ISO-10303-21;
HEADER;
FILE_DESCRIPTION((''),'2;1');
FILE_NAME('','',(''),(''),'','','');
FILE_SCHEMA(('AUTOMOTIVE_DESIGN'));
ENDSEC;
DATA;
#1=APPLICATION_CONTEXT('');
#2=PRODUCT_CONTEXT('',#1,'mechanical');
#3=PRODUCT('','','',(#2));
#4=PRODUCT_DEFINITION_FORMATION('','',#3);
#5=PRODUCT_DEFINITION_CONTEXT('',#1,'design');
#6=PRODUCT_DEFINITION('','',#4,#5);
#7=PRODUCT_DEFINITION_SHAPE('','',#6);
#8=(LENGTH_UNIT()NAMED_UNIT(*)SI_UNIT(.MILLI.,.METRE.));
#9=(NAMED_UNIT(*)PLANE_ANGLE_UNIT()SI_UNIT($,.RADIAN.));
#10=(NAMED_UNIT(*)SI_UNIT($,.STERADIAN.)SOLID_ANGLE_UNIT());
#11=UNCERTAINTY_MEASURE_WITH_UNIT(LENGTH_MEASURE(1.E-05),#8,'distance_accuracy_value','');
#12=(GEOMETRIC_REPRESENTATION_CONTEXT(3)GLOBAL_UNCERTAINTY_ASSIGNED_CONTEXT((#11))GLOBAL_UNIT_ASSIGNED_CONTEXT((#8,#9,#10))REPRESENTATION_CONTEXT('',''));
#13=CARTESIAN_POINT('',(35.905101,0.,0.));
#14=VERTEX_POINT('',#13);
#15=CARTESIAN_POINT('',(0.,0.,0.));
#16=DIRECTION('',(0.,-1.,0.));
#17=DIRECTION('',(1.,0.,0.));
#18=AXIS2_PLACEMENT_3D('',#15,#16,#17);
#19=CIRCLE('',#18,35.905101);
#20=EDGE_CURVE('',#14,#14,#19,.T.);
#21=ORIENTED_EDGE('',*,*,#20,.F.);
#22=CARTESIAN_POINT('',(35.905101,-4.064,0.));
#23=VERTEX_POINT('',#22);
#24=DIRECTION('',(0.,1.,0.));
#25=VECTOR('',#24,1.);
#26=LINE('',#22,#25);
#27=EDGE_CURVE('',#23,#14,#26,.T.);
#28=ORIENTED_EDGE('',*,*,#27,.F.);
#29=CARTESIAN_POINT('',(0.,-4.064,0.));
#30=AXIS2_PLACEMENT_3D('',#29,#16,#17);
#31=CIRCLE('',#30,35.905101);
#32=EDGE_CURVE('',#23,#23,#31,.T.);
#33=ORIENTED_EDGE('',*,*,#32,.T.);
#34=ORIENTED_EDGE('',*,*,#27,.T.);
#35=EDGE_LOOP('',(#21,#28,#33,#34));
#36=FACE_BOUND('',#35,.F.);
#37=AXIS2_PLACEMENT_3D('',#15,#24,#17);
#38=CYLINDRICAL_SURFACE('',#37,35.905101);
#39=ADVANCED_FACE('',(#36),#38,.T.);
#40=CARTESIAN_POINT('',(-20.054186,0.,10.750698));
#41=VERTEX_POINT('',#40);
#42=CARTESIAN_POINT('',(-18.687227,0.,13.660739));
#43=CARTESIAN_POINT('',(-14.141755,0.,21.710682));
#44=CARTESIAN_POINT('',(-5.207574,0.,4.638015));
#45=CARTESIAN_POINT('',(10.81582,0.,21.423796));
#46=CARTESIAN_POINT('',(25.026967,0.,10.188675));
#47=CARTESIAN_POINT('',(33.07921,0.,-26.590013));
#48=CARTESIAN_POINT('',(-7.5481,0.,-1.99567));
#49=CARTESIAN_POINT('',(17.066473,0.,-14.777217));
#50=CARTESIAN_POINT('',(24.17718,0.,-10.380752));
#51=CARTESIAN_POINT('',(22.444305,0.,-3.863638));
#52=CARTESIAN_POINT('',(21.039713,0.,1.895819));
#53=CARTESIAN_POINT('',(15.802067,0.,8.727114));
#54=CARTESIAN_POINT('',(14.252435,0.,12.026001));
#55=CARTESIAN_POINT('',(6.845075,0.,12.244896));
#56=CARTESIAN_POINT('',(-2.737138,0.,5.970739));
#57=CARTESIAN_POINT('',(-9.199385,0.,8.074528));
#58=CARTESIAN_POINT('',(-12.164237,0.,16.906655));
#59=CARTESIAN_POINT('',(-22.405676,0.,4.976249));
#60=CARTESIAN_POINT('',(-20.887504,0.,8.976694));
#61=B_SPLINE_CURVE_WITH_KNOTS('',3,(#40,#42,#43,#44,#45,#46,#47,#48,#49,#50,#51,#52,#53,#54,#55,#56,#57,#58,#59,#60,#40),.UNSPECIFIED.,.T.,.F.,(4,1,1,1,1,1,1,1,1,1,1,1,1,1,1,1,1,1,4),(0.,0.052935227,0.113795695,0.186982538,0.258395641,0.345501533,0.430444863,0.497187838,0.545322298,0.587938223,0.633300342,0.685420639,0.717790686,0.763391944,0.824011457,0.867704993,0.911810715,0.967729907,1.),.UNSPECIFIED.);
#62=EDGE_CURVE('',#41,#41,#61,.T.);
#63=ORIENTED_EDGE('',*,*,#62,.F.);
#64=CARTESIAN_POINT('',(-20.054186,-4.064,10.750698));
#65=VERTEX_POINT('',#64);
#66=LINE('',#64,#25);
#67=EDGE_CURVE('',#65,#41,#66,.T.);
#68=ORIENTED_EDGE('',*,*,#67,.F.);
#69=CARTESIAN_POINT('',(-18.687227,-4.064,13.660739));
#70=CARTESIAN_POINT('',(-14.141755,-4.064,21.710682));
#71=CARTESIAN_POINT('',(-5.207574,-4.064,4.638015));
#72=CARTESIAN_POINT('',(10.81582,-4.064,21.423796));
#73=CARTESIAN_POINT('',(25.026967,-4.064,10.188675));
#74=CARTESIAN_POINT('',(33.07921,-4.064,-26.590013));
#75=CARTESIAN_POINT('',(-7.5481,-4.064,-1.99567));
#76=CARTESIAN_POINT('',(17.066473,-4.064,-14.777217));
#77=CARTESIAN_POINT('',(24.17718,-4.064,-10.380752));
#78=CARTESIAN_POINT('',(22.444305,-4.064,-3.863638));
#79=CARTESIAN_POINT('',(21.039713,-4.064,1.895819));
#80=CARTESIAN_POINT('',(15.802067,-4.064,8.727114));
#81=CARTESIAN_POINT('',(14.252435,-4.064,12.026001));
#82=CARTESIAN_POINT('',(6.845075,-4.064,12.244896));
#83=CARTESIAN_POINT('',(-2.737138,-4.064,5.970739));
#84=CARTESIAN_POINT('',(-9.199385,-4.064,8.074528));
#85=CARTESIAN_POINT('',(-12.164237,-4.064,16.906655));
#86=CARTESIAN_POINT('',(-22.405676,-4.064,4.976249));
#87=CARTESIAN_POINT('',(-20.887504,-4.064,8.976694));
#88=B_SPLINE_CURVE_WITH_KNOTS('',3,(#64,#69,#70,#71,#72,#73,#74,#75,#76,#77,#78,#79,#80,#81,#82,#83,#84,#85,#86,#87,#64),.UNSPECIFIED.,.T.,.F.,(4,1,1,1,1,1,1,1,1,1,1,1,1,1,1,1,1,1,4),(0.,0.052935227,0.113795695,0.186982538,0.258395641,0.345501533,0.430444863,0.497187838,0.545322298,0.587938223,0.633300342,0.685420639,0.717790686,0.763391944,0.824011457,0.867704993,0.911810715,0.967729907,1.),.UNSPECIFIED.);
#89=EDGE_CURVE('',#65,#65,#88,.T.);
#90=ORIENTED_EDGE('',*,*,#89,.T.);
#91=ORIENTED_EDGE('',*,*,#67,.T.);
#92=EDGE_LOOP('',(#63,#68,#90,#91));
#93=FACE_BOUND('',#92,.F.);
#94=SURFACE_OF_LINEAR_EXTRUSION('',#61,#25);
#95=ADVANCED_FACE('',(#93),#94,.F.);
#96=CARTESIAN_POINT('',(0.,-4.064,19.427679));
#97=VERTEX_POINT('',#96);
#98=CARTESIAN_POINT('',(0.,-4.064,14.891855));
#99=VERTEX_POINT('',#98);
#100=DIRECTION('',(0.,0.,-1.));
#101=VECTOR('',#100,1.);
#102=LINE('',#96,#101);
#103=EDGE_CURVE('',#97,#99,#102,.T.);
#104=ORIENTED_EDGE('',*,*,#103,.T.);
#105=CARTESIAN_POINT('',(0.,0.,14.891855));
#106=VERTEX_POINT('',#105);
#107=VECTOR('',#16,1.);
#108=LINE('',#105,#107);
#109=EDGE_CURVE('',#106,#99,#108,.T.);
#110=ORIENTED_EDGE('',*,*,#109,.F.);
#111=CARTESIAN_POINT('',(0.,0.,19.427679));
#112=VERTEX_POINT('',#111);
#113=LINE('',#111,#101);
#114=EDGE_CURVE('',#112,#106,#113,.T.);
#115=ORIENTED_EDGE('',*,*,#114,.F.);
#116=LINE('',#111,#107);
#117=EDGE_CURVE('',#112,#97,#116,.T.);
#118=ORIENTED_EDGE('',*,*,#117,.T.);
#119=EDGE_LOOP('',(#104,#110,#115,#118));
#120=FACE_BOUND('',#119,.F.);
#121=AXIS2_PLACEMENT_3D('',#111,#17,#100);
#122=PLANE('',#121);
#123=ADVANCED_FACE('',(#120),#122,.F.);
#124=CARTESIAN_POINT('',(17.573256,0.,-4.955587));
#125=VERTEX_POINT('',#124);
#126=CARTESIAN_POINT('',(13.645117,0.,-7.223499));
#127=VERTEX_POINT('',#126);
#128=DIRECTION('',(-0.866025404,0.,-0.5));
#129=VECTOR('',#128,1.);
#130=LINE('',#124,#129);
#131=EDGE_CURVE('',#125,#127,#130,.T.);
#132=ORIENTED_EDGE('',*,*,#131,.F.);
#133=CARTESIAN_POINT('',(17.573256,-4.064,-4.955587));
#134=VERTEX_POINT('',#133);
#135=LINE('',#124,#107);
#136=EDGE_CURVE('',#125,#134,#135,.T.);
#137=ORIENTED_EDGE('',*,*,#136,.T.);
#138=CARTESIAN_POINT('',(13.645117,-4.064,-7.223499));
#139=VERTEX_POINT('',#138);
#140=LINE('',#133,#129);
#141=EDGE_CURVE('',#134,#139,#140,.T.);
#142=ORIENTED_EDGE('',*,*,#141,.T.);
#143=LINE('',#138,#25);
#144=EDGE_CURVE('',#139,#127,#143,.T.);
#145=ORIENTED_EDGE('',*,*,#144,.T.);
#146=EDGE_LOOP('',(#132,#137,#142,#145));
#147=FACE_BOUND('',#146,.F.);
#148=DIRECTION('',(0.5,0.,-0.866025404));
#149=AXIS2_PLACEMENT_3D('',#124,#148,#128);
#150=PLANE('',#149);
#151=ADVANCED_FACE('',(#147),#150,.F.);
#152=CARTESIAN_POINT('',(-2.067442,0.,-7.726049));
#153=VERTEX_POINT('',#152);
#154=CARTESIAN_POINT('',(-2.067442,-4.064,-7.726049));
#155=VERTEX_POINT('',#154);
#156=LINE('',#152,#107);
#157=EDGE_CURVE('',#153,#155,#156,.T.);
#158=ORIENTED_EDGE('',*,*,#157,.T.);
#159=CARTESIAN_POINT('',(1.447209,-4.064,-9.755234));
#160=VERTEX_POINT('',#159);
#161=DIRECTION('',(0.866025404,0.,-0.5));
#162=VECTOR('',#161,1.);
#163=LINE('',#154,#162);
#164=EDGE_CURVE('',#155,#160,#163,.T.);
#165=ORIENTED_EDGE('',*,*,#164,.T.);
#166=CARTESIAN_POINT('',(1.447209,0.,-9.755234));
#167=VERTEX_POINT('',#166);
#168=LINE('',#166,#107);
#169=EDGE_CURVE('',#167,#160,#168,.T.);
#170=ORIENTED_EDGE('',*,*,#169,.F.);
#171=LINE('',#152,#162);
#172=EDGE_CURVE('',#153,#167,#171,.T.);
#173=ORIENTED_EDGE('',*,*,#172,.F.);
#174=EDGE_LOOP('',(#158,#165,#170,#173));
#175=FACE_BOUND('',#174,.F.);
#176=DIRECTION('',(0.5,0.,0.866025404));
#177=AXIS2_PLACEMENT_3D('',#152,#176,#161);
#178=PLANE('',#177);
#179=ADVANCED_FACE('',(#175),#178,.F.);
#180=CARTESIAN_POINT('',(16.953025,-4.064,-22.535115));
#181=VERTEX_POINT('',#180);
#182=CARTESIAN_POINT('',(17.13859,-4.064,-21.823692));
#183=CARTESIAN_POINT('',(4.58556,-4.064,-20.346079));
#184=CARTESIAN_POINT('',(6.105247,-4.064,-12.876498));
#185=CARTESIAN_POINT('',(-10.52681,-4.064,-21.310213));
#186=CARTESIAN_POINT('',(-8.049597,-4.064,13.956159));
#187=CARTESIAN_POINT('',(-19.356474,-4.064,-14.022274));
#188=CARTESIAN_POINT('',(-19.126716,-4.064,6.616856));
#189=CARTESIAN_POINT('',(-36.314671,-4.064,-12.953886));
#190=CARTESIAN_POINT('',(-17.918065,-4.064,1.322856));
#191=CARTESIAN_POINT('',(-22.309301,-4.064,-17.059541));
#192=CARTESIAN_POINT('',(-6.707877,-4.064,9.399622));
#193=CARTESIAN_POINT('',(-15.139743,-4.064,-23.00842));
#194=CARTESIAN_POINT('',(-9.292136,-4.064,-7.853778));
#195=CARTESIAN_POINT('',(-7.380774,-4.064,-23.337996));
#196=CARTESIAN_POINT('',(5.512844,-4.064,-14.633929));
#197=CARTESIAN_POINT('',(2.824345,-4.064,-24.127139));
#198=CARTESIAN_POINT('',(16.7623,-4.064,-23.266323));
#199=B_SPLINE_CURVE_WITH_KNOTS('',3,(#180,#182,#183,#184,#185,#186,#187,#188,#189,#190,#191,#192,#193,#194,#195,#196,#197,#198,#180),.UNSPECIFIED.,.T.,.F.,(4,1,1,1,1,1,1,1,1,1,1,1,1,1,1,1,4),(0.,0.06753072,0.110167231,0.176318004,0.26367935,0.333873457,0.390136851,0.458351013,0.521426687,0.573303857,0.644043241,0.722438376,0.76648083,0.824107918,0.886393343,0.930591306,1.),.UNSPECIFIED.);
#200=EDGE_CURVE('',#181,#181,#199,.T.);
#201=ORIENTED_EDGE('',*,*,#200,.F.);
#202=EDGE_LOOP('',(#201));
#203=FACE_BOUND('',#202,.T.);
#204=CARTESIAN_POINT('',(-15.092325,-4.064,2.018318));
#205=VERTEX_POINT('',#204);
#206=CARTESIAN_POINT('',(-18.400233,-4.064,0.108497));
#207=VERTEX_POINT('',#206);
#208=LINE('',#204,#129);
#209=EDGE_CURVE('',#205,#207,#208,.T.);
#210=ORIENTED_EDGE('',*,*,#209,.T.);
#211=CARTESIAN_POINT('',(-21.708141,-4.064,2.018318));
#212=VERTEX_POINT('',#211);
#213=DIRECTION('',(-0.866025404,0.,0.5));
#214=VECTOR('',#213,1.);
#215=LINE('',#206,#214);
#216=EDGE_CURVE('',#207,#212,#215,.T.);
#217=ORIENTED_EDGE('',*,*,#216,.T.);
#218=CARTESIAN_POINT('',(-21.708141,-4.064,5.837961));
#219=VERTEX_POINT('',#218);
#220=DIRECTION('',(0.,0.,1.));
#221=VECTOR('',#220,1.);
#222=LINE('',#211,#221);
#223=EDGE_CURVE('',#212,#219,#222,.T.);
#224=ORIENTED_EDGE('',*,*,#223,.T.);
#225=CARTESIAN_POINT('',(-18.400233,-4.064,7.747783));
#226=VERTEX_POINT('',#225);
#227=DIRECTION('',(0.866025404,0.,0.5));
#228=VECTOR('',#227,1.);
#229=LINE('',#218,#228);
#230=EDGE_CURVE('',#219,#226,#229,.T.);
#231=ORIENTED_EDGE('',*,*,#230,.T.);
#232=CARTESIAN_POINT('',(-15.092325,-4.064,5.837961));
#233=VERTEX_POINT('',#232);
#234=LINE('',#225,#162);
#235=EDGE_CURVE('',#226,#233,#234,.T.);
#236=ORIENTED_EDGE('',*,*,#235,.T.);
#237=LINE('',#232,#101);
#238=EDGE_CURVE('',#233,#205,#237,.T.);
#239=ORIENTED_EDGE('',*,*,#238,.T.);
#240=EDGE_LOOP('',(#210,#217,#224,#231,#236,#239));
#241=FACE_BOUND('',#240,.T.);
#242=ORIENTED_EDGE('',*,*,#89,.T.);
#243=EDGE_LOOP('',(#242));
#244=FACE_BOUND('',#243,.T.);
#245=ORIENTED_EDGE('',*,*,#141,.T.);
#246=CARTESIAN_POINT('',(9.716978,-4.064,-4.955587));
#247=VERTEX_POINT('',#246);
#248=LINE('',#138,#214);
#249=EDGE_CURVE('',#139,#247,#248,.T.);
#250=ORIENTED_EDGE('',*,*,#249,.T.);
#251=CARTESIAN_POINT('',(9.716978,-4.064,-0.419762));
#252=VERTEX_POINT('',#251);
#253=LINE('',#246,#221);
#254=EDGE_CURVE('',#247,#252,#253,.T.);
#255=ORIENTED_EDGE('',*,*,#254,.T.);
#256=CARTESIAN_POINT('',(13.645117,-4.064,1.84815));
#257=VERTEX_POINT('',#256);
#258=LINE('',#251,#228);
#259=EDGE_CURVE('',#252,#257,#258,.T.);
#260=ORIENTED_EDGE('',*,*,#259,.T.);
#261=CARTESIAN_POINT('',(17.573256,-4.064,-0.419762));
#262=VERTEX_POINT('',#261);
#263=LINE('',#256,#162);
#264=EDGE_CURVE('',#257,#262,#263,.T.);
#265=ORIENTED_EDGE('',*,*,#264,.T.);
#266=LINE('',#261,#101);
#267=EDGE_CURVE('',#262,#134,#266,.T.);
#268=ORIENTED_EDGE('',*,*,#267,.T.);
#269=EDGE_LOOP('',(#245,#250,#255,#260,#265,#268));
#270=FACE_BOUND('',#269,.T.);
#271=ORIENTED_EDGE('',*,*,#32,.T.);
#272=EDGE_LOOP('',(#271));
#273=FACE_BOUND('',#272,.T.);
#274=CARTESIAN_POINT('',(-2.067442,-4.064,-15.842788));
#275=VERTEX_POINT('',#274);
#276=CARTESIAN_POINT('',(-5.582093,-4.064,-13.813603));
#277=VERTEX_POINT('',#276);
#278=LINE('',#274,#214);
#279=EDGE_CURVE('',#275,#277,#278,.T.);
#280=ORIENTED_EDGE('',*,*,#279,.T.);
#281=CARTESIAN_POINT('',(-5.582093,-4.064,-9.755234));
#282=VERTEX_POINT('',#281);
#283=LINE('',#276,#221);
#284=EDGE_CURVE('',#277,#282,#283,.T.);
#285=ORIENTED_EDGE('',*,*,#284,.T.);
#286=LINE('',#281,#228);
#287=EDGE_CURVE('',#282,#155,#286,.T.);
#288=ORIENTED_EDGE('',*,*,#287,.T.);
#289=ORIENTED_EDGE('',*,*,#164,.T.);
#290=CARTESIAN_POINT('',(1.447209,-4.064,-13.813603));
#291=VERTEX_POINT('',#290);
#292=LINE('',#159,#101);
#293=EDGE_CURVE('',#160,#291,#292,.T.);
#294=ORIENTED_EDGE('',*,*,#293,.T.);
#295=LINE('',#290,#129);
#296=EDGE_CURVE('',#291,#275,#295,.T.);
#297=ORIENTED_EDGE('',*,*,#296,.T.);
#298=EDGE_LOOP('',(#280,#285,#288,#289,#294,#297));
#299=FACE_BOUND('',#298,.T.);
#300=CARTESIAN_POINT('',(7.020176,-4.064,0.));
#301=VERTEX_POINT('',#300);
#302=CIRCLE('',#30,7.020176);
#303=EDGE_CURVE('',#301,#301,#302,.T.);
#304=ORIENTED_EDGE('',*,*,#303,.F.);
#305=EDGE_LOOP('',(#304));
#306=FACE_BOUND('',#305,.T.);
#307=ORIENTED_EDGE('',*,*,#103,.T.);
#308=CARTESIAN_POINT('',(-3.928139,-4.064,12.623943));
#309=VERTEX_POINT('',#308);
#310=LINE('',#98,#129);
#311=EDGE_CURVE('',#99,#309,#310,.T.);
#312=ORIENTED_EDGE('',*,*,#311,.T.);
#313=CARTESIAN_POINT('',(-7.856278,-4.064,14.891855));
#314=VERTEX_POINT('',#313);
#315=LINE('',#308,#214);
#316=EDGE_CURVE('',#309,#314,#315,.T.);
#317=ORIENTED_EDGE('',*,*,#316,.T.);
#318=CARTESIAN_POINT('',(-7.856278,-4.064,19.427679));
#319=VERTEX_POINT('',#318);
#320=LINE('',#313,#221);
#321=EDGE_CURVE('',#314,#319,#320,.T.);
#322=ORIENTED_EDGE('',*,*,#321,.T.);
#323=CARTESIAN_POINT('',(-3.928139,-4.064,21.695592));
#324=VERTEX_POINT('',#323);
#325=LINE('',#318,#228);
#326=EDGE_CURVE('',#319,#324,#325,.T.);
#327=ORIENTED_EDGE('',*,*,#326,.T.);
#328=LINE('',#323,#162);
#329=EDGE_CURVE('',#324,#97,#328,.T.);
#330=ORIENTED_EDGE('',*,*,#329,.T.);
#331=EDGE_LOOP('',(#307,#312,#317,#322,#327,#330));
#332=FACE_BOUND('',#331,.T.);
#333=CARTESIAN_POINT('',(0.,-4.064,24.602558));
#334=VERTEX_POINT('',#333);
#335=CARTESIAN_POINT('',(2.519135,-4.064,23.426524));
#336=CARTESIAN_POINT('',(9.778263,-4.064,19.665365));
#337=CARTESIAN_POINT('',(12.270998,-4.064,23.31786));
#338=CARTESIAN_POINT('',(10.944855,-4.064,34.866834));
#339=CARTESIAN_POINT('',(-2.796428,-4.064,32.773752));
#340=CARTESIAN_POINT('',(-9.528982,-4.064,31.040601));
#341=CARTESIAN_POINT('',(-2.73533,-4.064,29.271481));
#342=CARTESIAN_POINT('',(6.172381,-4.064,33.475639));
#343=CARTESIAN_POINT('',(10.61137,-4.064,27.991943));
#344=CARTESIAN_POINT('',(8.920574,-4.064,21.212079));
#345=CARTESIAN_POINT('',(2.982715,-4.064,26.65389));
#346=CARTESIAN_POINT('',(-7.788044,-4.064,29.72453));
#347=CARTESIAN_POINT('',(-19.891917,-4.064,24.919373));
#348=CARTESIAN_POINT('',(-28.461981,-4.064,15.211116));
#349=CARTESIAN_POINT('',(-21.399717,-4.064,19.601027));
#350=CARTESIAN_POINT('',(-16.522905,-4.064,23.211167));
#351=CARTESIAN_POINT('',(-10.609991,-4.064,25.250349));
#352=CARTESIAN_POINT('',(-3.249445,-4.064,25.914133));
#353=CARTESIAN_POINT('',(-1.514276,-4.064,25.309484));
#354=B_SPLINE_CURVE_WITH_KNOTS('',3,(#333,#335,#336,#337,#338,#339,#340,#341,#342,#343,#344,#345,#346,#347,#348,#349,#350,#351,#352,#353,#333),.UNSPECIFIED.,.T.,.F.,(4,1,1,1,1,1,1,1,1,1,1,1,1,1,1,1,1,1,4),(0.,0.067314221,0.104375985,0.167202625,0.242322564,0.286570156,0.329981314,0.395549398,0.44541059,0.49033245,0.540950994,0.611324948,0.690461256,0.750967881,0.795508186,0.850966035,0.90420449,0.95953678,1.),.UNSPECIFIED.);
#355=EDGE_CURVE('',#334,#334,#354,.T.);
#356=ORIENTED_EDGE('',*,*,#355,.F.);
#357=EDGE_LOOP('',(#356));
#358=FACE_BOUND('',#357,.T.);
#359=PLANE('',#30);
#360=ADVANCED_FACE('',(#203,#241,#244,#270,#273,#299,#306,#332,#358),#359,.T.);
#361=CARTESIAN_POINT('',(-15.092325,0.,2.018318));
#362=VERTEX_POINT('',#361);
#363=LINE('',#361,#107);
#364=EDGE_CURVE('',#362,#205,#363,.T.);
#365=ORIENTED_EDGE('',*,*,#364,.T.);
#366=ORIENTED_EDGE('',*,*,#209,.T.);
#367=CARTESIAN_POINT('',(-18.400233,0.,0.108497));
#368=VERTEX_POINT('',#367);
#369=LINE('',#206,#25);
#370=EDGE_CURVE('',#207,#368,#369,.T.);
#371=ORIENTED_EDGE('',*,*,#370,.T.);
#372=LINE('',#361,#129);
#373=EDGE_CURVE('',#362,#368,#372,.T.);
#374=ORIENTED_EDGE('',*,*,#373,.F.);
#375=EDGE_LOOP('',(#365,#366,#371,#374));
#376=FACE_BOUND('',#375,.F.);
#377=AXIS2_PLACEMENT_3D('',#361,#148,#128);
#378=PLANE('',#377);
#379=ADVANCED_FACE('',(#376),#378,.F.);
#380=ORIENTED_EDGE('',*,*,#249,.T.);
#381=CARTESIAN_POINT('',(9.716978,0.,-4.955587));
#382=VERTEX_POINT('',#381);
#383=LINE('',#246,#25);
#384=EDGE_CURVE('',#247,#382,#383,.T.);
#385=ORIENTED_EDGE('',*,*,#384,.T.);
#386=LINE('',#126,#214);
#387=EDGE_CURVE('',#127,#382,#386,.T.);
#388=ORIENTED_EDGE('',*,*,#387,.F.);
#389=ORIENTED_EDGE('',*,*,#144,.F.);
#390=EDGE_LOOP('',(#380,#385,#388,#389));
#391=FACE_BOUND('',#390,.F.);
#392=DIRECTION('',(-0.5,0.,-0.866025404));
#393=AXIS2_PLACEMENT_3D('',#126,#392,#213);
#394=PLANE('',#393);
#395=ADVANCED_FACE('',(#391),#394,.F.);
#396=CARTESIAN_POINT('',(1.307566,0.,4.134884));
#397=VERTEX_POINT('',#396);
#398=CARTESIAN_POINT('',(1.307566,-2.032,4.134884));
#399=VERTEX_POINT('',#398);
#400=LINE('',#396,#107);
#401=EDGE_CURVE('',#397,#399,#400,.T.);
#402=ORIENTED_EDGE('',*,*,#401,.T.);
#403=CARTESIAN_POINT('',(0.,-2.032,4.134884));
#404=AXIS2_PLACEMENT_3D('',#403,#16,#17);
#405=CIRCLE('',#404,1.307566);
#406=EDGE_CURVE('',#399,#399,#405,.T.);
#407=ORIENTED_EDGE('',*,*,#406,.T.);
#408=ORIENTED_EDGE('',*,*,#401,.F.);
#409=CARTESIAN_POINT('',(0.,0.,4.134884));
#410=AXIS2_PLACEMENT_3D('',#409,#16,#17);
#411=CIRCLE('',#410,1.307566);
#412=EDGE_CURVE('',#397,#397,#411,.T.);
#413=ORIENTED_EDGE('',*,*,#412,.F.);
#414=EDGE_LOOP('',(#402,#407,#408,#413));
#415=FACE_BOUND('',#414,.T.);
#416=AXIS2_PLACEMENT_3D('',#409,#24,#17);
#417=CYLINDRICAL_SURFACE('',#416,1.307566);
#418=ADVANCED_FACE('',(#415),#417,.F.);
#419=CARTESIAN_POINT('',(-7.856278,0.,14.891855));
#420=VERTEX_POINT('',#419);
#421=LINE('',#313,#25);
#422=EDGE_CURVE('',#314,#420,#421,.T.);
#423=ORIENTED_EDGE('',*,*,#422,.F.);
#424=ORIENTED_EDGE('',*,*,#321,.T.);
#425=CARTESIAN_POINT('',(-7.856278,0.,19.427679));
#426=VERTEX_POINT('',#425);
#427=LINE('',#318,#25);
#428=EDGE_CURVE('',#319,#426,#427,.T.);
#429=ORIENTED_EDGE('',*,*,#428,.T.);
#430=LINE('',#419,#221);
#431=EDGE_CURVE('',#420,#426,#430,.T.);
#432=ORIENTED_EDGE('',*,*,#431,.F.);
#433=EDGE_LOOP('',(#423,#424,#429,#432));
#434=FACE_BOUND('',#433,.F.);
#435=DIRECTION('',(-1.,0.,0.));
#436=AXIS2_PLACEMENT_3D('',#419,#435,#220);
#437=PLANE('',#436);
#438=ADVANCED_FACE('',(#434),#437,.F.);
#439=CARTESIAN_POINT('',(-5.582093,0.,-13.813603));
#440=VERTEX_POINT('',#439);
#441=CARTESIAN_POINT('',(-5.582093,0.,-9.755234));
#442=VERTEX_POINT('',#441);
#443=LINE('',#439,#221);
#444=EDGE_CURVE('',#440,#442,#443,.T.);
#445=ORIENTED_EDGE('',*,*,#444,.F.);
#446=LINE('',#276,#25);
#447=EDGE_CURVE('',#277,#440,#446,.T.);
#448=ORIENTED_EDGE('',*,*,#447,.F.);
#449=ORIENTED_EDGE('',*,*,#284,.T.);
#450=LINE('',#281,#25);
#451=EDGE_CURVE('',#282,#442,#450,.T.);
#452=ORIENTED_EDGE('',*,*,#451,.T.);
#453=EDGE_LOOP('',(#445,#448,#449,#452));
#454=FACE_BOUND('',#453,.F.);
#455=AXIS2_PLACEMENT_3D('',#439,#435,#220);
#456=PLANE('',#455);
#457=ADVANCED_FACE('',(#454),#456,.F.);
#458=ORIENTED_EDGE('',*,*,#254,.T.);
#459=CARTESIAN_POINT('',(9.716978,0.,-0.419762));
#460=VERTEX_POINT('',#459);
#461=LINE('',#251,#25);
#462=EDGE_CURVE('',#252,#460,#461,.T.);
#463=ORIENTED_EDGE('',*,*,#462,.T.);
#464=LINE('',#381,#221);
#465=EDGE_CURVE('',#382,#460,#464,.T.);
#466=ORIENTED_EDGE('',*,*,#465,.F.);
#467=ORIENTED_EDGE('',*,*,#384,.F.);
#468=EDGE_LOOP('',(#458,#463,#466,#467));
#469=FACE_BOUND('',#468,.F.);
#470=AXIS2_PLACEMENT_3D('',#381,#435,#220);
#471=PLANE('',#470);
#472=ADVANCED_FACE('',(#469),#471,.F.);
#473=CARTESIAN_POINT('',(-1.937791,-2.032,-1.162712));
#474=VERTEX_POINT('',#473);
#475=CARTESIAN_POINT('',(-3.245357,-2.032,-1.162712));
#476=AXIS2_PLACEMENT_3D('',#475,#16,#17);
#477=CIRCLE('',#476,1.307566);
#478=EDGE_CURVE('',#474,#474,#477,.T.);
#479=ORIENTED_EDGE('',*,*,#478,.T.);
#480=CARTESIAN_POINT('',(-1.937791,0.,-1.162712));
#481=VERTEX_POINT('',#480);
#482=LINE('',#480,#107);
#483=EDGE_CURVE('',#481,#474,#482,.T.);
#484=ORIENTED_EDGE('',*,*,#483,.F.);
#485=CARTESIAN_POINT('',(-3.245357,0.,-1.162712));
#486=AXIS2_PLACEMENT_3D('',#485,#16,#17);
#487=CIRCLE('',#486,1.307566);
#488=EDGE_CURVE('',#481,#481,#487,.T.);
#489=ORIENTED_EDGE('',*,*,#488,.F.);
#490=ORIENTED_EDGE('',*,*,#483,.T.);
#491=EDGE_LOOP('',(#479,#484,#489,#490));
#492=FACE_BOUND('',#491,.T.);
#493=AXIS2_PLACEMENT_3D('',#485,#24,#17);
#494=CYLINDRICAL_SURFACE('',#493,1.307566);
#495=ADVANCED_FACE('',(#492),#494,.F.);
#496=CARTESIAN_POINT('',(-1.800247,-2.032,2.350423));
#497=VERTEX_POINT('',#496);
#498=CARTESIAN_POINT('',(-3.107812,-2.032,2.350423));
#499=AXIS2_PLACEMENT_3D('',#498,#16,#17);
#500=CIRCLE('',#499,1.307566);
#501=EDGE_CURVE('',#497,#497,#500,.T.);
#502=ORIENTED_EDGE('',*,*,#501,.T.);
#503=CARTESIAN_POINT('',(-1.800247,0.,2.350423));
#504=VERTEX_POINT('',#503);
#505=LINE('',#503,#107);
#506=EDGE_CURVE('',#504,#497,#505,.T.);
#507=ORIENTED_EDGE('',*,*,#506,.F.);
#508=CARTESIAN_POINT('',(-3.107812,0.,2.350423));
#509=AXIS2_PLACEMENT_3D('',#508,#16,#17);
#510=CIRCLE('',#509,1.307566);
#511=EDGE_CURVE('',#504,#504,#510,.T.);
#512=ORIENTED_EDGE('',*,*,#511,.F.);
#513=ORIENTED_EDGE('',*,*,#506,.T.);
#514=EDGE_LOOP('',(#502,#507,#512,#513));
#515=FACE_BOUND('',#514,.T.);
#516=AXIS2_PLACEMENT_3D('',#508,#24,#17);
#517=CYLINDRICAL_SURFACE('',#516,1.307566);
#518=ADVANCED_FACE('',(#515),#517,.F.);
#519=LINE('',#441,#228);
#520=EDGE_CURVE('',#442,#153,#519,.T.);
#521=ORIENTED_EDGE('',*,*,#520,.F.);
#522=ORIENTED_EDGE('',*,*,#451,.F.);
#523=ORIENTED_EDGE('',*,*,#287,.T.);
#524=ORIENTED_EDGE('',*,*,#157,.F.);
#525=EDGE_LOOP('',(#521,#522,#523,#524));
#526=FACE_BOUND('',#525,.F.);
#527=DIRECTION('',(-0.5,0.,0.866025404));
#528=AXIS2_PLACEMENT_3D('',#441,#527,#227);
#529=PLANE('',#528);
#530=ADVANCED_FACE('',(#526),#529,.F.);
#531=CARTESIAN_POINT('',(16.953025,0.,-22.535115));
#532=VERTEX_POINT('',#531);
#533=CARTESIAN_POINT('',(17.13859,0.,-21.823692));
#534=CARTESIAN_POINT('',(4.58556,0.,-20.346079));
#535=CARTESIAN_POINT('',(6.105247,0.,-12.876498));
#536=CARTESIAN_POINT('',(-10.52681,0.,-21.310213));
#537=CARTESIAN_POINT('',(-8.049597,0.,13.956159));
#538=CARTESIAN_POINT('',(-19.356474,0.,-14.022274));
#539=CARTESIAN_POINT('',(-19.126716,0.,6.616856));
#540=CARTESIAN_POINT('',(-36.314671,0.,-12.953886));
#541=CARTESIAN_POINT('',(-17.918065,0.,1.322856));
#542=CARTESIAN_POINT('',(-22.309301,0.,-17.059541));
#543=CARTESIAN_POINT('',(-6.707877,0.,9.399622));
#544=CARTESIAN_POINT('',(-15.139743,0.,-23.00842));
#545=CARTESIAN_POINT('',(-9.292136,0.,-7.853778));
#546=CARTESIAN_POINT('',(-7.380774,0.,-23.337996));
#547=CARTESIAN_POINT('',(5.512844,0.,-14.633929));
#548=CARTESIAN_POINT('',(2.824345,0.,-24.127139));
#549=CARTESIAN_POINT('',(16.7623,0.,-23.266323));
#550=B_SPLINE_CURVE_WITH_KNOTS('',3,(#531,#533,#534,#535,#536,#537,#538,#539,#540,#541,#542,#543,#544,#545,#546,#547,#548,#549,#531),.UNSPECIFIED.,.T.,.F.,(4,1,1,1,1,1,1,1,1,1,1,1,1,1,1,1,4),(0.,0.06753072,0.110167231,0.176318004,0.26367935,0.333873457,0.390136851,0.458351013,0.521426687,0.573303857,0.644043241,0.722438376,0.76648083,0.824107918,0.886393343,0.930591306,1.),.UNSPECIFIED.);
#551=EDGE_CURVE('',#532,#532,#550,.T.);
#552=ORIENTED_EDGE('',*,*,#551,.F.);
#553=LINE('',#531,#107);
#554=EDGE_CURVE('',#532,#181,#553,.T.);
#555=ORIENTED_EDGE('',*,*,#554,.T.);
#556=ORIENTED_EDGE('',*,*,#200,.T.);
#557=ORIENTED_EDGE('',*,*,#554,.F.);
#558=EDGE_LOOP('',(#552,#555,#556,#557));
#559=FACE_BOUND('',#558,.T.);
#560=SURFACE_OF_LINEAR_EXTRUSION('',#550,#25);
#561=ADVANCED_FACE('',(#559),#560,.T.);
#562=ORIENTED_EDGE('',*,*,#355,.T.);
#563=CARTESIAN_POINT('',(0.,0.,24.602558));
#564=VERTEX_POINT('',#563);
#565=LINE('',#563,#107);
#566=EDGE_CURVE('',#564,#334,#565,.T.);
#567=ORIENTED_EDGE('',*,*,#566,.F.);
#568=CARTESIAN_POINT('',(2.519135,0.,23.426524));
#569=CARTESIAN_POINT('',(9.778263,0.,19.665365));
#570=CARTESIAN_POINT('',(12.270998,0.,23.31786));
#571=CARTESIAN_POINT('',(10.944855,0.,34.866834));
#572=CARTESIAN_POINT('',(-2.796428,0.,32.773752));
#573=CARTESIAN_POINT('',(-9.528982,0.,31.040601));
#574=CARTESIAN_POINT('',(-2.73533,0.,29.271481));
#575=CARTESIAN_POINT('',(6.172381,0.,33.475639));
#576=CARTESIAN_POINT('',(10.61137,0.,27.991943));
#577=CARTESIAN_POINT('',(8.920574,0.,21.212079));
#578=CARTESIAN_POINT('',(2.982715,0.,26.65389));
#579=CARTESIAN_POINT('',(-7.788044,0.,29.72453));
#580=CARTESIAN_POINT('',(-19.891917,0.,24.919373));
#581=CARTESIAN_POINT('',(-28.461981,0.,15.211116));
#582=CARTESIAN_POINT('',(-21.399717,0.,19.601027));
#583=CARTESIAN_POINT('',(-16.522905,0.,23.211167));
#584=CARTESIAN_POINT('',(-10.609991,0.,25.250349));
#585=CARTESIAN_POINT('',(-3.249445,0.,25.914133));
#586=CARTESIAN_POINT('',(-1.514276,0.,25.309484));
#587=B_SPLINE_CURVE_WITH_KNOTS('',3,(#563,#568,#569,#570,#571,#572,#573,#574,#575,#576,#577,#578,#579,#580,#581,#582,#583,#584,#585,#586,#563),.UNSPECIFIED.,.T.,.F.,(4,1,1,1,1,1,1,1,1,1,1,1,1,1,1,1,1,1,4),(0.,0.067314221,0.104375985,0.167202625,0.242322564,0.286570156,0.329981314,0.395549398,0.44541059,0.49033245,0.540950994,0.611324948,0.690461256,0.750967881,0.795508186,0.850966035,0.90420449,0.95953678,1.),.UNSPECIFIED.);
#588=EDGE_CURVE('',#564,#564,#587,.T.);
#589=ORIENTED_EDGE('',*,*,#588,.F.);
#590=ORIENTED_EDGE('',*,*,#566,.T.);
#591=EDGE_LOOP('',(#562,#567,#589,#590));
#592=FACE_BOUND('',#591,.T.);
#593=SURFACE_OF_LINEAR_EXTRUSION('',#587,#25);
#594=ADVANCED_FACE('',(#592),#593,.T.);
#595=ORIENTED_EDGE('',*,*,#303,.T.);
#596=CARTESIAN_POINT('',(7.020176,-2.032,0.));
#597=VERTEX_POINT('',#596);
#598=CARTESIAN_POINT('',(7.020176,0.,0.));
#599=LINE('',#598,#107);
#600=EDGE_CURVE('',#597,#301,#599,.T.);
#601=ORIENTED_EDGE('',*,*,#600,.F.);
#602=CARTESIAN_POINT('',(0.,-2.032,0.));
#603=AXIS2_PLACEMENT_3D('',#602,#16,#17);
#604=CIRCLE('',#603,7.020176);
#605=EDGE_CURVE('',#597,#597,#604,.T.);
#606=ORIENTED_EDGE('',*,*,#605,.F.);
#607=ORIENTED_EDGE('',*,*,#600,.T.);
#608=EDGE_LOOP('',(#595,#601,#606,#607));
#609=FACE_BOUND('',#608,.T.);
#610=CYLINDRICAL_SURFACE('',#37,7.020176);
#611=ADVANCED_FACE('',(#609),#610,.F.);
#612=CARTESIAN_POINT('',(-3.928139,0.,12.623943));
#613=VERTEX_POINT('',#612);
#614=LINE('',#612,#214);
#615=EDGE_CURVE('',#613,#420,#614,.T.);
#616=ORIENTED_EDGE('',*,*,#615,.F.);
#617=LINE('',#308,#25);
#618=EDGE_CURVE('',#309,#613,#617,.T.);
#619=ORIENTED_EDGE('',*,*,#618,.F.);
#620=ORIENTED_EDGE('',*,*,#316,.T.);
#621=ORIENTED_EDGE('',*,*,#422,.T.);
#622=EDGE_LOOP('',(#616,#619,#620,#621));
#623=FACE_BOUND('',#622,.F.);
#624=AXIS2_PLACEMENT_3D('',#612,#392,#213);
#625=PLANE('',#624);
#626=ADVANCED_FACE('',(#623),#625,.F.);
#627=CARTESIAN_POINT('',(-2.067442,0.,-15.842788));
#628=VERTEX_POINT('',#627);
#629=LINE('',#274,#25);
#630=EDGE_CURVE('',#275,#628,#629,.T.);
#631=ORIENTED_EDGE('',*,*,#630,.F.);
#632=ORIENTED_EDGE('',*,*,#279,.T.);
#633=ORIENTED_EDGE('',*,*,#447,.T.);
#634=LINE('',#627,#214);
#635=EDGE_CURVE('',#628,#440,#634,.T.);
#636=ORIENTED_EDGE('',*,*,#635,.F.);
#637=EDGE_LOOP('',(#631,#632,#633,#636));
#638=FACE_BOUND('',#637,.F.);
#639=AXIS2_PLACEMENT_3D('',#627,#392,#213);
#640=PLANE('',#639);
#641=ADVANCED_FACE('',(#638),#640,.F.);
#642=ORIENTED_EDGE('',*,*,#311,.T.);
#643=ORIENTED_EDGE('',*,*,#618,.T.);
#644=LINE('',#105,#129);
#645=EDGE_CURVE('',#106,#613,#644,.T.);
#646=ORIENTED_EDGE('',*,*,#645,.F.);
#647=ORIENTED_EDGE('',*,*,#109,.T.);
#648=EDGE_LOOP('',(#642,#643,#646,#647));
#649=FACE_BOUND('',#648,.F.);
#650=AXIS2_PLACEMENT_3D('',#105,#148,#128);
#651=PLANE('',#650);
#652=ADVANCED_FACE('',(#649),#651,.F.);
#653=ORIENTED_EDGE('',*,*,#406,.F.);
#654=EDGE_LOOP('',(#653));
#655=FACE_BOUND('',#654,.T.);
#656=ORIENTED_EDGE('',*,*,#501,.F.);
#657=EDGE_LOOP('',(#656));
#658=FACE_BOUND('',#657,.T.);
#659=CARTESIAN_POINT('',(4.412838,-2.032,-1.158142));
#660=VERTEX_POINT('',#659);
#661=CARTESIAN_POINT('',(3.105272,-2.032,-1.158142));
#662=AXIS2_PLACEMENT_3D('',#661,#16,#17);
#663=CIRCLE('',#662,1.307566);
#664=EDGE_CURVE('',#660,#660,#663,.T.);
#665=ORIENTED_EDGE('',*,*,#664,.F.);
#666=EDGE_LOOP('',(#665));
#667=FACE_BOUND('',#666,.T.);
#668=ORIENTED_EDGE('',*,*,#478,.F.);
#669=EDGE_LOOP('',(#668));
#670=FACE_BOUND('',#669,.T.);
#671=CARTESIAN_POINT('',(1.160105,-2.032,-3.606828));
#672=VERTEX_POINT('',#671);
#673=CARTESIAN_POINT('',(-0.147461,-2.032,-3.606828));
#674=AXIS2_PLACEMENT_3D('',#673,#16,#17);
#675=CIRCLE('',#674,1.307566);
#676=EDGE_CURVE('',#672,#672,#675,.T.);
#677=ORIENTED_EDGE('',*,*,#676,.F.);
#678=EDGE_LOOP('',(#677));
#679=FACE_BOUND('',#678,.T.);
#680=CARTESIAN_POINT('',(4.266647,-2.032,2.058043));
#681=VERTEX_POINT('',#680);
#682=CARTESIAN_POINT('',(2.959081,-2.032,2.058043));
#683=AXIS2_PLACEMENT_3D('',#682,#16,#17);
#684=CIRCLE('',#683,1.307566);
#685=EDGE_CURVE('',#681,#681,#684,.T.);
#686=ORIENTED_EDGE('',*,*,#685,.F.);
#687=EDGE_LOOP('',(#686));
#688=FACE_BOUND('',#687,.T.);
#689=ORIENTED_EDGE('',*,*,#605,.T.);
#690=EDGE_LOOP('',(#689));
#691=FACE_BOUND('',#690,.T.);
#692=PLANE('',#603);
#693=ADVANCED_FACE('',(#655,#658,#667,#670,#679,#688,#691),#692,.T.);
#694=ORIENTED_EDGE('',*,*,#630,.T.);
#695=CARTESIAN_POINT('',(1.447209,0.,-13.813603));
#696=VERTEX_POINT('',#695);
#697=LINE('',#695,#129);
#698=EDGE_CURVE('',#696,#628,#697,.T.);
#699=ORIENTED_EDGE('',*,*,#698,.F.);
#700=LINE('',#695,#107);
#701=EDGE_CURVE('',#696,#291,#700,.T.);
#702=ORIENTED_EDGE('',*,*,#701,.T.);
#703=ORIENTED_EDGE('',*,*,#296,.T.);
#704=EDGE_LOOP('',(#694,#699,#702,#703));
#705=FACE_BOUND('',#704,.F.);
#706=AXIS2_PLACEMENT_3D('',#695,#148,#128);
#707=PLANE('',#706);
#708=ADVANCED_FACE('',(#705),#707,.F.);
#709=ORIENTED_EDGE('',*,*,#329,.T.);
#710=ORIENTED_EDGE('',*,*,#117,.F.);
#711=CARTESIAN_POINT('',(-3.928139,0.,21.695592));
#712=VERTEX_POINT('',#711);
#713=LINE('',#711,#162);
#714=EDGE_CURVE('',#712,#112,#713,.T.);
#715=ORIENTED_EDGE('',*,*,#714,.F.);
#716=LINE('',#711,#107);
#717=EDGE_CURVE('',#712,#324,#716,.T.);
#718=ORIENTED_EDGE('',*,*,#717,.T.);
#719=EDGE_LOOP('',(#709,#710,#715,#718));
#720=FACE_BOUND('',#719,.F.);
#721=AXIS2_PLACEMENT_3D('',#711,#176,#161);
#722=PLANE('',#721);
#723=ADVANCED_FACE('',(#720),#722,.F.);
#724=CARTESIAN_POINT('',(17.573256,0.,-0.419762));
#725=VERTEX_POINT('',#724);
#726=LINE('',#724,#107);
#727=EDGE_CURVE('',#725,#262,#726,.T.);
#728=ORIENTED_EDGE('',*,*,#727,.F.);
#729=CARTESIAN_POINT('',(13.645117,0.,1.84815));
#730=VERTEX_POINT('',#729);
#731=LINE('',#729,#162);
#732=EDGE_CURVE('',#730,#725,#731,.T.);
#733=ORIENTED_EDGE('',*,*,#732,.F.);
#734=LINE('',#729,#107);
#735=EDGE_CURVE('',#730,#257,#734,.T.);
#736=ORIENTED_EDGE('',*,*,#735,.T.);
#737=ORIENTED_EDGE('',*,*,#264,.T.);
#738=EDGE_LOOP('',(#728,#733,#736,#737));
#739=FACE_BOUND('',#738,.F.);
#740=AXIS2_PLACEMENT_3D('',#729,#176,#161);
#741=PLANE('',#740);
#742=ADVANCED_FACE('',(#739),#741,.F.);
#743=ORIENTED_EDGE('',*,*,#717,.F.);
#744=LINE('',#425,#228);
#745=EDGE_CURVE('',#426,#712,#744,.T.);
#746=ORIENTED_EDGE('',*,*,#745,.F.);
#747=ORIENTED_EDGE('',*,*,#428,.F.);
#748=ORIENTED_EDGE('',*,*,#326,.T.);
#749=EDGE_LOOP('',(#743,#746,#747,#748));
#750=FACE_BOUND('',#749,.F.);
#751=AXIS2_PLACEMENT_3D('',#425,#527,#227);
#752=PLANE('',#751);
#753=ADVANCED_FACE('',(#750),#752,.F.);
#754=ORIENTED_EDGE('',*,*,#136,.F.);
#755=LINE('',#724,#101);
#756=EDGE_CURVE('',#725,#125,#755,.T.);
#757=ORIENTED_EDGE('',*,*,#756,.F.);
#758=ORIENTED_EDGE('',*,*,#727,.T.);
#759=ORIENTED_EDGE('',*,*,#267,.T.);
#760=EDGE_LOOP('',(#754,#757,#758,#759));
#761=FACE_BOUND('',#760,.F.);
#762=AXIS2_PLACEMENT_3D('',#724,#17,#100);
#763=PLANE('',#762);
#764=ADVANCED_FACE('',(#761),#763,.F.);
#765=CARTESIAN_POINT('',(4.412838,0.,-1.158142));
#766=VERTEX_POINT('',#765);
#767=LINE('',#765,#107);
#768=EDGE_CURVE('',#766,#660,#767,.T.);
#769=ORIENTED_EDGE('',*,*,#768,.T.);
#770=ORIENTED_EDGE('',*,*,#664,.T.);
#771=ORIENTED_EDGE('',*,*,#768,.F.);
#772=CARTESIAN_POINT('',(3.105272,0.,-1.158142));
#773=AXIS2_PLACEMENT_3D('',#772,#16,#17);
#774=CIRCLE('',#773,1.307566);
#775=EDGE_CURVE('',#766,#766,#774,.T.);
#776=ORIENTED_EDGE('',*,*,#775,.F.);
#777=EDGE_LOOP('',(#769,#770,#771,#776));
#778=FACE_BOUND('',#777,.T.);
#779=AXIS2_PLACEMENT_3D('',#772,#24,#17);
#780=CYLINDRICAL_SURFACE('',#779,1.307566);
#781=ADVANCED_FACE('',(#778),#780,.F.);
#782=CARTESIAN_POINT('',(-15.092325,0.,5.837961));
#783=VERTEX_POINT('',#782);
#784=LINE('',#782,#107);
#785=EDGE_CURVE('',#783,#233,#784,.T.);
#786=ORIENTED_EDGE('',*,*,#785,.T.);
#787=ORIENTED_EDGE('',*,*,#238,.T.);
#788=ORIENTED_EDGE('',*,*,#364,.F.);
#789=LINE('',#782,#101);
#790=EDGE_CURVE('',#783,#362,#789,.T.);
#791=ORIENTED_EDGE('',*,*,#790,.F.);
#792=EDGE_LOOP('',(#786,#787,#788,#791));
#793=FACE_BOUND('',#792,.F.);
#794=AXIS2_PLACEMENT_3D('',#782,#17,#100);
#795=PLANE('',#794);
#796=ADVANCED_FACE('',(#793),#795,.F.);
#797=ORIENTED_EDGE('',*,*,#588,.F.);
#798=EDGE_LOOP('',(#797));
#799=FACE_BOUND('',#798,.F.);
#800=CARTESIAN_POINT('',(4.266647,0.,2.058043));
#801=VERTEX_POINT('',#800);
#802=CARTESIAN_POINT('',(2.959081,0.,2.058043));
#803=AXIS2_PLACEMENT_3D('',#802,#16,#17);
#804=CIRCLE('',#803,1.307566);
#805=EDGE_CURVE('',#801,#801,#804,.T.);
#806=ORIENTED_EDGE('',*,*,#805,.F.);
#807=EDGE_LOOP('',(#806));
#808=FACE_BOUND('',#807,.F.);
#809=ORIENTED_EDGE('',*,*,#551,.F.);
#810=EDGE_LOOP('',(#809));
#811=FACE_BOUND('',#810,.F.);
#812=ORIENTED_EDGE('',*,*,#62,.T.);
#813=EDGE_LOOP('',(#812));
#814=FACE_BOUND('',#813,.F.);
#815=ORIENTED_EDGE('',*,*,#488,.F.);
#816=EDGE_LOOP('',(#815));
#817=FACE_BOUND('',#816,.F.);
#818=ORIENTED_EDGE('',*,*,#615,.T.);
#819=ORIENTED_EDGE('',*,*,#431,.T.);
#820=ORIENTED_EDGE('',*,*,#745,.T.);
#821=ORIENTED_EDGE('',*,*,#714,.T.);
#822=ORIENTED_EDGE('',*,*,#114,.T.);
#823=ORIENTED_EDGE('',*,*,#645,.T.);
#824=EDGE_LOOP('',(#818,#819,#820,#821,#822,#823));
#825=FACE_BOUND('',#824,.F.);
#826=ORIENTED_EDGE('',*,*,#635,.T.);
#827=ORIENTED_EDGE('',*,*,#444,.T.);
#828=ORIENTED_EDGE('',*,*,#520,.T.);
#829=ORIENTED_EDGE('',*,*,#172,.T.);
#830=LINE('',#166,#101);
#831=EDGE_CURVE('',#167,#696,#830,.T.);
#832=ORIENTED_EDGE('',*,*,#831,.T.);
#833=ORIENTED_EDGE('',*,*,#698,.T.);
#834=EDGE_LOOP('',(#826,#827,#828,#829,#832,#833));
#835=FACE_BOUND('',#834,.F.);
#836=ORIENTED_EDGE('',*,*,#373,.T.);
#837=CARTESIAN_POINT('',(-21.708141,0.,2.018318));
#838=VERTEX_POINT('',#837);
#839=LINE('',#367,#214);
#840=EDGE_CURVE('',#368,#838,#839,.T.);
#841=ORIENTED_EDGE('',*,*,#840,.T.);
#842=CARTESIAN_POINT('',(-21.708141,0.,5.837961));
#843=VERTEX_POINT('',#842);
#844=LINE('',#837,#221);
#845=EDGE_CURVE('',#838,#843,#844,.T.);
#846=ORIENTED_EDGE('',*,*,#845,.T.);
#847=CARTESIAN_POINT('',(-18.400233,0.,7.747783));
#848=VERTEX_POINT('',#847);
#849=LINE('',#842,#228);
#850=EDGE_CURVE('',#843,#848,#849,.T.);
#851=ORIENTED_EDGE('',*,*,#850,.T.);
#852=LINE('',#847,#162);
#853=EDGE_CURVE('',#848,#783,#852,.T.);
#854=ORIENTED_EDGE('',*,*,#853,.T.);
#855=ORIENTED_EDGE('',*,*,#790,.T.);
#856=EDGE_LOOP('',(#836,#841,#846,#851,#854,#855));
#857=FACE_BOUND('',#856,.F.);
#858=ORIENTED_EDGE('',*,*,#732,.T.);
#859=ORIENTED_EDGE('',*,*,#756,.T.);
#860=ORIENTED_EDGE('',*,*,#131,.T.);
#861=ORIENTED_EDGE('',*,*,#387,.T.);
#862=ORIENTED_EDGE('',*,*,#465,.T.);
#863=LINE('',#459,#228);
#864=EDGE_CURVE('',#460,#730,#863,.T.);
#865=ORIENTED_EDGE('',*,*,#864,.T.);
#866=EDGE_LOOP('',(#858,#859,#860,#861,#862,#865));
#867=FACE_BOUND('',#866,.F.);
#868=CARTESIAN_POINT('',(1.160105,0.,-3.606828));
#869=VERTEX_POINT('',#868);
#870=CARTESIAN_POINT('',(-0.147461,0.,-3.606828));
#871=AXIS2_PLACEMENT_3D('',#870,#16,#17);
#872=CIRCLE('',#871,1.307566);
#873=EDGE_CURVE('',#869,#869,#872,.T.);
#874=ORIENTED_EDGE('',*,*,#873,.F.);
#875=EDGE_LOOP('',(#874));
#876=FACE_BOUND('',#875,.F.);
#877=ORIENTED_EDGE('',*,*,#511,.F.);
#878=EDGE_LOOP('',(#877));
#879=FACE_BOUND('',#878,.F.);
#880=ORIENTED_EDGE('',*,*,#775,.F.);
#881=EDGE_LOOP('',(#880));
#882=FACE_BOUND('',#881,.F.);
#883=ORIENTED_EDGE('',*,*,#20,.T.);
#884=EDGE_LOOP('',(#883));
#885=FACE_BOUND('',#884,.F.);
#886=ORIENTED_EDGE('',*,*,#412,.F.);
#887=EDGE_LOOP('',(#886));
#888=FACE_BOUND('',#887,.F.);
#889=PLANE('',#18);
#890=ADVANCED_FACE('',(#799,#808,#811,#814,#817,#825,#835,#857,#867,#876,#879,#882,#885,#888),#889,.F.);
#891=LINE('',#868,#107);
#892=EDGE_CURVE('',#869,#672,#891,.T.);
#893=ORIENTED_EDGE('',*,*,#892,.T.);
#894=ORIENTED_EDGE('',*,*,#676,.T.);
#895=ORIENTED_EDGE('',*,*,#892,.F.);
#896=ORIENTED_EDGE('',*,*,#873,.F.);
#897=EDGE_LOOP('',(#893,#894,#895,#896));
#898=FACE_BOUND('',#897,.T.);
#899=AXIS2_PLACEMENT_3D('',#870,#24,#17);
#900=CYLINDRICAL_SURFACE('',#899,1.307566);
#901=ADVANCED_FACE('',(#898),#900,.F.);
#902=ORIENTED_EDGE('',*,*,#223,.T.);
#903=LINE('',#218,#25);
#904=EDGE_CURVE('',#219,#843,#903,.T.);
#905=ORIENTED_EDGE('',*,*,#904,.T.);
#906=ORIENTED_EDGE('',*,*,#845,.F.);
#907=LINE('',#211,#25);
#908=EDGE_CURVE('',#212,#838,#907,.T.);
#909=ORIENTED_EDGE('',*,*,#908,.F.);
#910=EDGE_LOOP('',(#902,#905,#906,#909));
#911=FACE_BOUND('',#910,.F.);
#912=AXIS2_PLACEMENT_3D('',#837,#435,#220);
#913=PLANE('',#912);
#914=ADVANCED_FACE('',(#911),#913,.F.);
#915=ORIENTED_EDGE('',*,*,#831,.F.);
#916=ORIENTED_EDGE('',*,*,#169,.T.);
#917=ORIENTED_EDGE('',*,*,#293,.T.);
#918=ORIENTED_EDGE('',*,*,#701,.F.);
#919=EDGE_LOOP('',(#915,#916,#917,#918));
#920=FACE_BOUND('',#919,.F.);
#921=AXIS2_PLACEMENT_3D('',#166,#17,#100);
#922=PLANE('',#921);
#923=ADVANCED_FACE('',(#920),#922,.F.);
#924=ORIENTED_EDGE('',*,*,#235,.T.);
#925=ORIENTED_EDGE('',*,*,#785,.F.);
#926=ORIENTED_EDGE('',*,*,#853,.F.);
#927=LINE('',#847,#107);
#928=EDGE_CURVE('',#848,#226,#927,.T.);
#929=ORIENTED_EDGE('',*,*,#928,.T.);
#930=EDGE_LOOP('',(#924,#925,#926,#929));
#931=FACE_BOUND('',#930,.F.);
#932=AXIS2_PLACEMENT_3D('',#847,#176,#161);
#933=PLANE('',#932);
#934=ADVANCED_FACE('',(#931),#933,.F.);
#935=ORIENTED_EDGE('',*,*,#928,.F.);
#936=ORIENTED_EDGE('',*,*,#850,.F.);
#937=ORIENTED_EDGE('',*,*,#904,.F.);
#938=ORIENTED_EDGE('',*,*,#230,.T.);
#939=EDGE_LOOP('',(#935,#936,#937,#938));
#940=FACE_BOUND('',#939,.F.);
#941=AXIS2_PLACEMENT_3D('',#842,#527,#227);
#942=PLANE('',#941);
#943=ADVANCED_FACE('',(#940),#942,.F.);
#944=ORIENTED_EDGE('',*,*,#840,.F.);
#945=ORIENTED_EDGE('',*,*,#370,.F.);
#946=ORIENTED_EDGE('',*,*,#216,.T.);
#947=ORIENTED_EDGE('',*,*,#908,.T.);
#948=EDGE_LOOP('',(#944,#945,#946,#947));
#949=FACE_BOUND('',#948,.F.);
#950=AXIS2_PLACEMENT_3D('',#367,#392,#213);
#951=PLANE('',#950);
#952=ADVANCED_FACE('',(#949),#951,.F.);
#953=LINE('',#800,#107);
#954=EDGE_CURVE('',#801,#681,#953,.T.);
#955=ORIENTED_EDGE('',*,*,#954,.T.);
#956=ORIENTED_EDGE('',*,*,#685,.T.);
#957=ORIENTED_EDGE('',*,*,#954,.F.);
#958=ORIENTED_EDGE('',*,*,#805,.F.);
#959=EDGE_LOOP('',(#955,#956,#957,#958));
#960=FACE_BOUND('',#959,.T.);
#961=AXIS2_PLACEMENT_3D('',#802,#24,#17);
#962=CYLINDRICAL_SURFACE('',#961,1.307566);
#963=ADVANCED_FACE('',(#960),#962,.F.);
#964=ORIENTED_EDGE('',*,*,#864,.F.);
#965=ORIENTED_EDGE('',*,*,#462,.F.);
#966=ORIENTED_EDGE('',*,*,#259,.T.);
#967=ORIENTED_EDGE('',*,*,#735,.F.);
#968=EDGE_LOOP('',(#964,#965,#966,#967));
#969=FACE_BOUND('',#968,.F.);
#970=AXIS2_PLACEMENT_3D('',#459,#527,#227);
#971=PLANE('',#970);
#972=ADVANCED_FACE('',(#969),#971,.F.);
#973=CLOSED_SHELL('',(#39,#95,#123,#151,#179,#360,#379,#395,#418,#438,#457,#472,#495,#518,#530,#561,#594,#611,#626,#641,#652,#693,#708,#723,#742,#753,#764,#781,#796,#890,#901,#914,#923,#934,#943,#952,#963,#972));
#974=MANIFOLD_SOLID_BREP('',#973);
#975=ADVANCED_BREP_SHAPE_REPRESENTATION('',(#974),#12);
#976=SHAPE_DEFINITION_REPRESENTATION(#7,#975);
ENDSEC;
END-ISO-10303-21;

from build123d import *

# Parameters (mm, degrees)
F0_R     = 35.9051012263
F0_R_2   = 7.0201757863
F1_DEPTH = 4.064
F0_R_3   = 1.3075658624
F2_DEPTH = 2.032
F3_DEPTH = 1.016


with BuildPart() as f1:
    # F0 (on Front) → F1 (new body)
    with BuildSketch(Plane.XZ):
        Circle(F0_R)
        Polygon((-2.0674418192, -7.7260493804), (1.4472089242, -9.7552339332), (1.4472089242, -13.8136030389), (-2.0674418192, -15.8427875917), (-5.5820925627, -13.8136030389), (-5.5820925627, -9.7552339332), align=None, mode=Mode.SUBTRACT)
        with BuildLine():
            add(Edge.make_bspline(
                [(16.9530250132, -22.5351154804), (17.1385897836, -21.8236917728), (4.5855596995, -20.3460792101), (6.1052469399, -12.8764975212), (-10.5268100064, -21.3102126159), (-8.0495973756, 13.9561591727), (-19.3564744938, -14.0222738301), (-19.1267156982, 6.6168555829), (-36.3146713981, -12.9538855346), (-17.9180654987, 1.3228559127), (-22.309300559, -17.0595406296), (-6.7078772939, 9.3996224873), (-15.1397427253, -23.008420422), (-9.2921355294, -7.8537776164), (-7.3807737055, -23.3379959884), (5.5128442605, -14.6339294879), (2.8243446455, -24.1271386931), (16.7622998404, -23.2663232911), (16.9530250132, -22.5351154804)],
                knots=[0, 0, 0, 0, 0.0675307204, 0.1101672309, 0.1763180042, 0.2636793502, 0.3338734573, 0.3901368506, 0.4583510129, 0.521426687, 0.5733038571, 0.6440432408, 0.7224383757, 0.7664808304, 0.8241079175, 0.8863933435, 0.9305913063, 1, 1, 1, 1], degree=3))
        make_face(mode=Mode.SUBTRACT)
        with BuildLine():
            add(Edge.make_bspline(
                [(-20.054185763, 10.7506979257), (-18.6872268166, 13.6607393251), (-14.1417548775, 21.7106821552), (-5.2075741621, 4.6380146049), (10.8158200598, 21.4237962993), (25.0269671951, 10.1886752206), (33.0792104017, -26.590012772), (-7.548100143, -1.9956701827), (17.0664725896, -14.7772167941), (24.1771799617, -10.3807520602), (22.4443052785, -3.863637804), (21.0397131671, 1.8958193658), (15.8020671704, 8.72711401), (14.2524348543, 12.0260008446), (6.8450754729, 12.2448963322), (-2.7371381594, 5.9707392033), (-9.1993853123, 8.0745275921), (-12.1642365568, 16.9066552991), (-22.4056758747, 4.9762493873), (-20.8875040558, 8.9766938582), (-20.054185763, 10.7506979257)],
                knots=[0, 0, 0, 0, 0.0529352267, 0.1137956947, 0.1869825378, 0.2583956413, 0.345501533, 0.4304448635, 0.4971878383, 0.5453222978, 0.5879382233, 0.6333003417, 0.6854206389, 0.717790686, 0.7633919436, 0.8240114572, 0.8677049935, 0.911810715, 0.9677299067, 1, 1, 1, 1], degree=3))
        make_face(mode=Mode.SUBTRACT)
        Polygon((13.6451171711, 1.8481495918), (17.5732560456, -0.4197624448), (17.5732560456, -4.955586518), (13.6451171711, -7.2234985546), (9.7169782966, -4.955586518), (9.7169782966, -0.4197624448), align=None, mode=Mode.SUBTRACT)
        Polygon((-18.4002332389, 7.747782772), (-15.0923253968, 5.8379612889), (-15.0923253968, 2.0183183227), (-18.4002332389, 0.1084968396), (-21.708141081, 2.0183183227), (-21.708141081, 5.8379612889), align=None, mode=Mode.SUBTRACT)
        Polygon((-3.9281388745, 21.6955915221), (0, 19.4276794855), (0, 14.8918554123), (-3.9281388745, 12.6239433757), (-7.8562777489, 14.8918554123), (-7.8562777489, 19.4276794855), align=None, mode=Mode.SUBTRACT)
        with BuildLine():
            add(Edge.make_bspline(
                [(0, 24.6025584638), (2.519134824, 23.4265240958), (9.7782627058, 19.6653647007), (12.2709978535, 23.317860072), (10.9448553846, 34.8668339766), (-2.7964275343, 32.7737524115), (-9.5289819041, 31.0406010366), (-2.7353304502, 29.2714808232), (6.1723813435, 33.4756391479), (10.6113702887, 27.9919430879), (8.9205735189, 21.212079439), (2.9827149288, 26.6538900252), (-7.7880442819, 29.7245297625), (-19.89191705, 24.9193725486), (-28.4619809921, 15.2111158504), (-21.3997171439, 19.6010273455), (-16.5229048285, 23.2111674575), (-10.6099910825, 25.2503485248), (-3.2494447445, 25.9141333448), (-1.5142759622, 25.3094839357), (0, 24.6025584638)],
                knots=[0, 0, 0, 0, 0.0673142208, 0.1043759848, 0.1672026247, 0.2423225643, 0.2865701558, 0.3299813143, 0.3955493977, 0.4454105898, 0.4903324498, 0.5409509938, 0.6113249476, 0.6904612557, 0.7509678814, 0.7955081864, 0.8509660352, 0.9042044904, 0.9595367801, 1, 1, 1, 1], degree=3))
        make_face(mode=Mode.SUBTRACT)
        Circle(F0_R_2, mode=Mode.SUBTRACT)
    extrude(amount=F1_DEPTH)

    # F0 (on Front) → F2 (join)
    with BuildSketch(Plane.XZ):
        Circle(F0_R_2)
        with Locations((-3.2453567255, -1.1627117638)):
            Circle(F0_R_3, mode=Mode.SUBTRACT)
        with Locations((-0.1474606252, -3.6068281624)):
            Circle(F0_R_3, mode=Mode.SUBTRACT)
        with Locations((3.1052718405, -1.1581421131)):
            Circle(F0_R_3, mode=Mode.SUBTRACT)
        with Locations((-3.1078124885, 2.3504230194)):
            Circle(F0_R_3, mode=Mode.SUBTRACT)
        with Locations((2.9590814374, 2.058042679)):
            Circle(F0_R_3, mode=Mode.SUBTRACT)
        with Locations((0, 4.1348836385)):
            Circle(F0_R_3, mode=Mode.SUBTRACT)
    extrude(amount=F2_DEPTH)

    # F0 (on Front) → F3 (join)
    with BuildSketch(Plane.XZ):
        Circle(F0_R)
        Polygon((-2.0674418192, -7.7260493804), (1.4472089242, -9.7552339332), (1.4472089242, -13.8136030389), (-2.0674418192, -15.8427875917), (-5.5820925627, -13.8136030389), (-5.5820925627, -9.7552339332), align=None, mode=Mode.SUBTRACT)
        with BuildLine():
            add(Edge.make_bspline(
                [(16.9530250132, -22.5351154804), (17.1385897836, -21.8236917728), (4.5855596995, -20.3460792101), (6.1052469399, -12.8764975212), (-10.5268100064, -21.3102126159), (-8.0495973756, 13.9561591727), (-19.3564744938, -14.0222738301), (-19.1267156982, 6.6168555829), (-36.3146713981, -12.9538855346), (-17.9180654987, 1.3228559127), (-22.309300559, -17.0595406296), (-6.7078772939, 9.3996224873), (-15.1397427253, -23.008420422), (-9.2921355294, -7.8537776164), (-7.3807737055, -23.3379959884), (5.5128442605, -14.6339294879), (2.8243446455, -24.1271386931), (16.7622998404, -23.2663232911), (16.9530250132, -22.5351154804)],
                knots=[0, 0, 0, 0, 0.0675307204, 0.1101672309, 0.1763180042, 0.2636793502, 0.3338734573, 0.3901368506, 0.4583510129, 0.521426687, 0.5733038571, 0.6440432408, 0.7224383757, 0.7664808304, 0.8241079175, 0.8863933435, 0.9305913063, 1, 1, 1, 1], degree=3))
        make_face(mode=Mode.SUBTRACT)
        with BuildLine():
            add(Edge.make_bspline(
                [(-20.054185763, 10.7506979257), (-18.6872268166, 13.6607393251), (-14.1417548775, 21.7106821552), (-5.2075741621, 4.6380146049), (10.8158200598, 21.4237962993), (25.0269671951, 10.1886752206), (33.0792104017, -26.590012772), (-7.548100143, -1.9956701827), (17.0664725896, -14.7772167941), (24.1771799617, -10.3807520602), (22.4443052785, -3.863637804), (21.0397131671, 1.8958193658), (15.8020671704, 8.72711401), (14.2524348543, 12.0260008446), (6.8450754729, 12.2448963322), (-2.7371381594, 5.9707392033), (-9.1993853123, 8.0745275921), (-12.1642365568, 16.9066552991), (-22.4056758747, 4.9762493873), (-20.8875040558, 8.9766938582), (-20.054185763, 10.7506979257)],
                knots=[0, 0, 0, 0, 0.0529352267, 0.1137956947, 0.1869825378, 0.2583956413, 0.345501533, 0.4304448635, 0.4971878383, 0.5453222978, 0.5879382233, 0.6333003417, 0.6854206389, 0.717790686, 0.7633919436, 0.8240114572, 0.8677049935, 0.911810715, 0.9677299067, 1, 1, 1, 1], degree=3))
        make_face(mode=Mode.SUBTRACT)
        Polygon((13.6451171711, 1.8481495918), (17.5732560456, -0.4197624448), (17.5732560456, -4.955586518), (13.6451171711, -7.2234985546), (9.7169782966, -4.955586518), (9.7169782966, -0.4197624448), align=None, mode=Mode.SUBTRACT)
        Polygon((-18.4002332389, 7.747782772), (-15.0923253968, 5.8379612889), (-15.0923253968, 2.0183183227), (-18.4002332389, 0.1084968396), (-21.708141081, 2.0183183227), (-21.708141081, 5.8379612889), align=None, mode=Mode.SUBTRACT)
        Polygon((-3.9281388745, 21.6955915221), (0, 19.4276794855), (0, 14.8918554123), (-3.9281388745, 12.6239433757), (-7.8562777489, 14.8918554123), (-7.8562777489, 19.4276794855), align=None, mode=Mode.SUBTRACT)
        with BuildLine():
            add(Edge.make_bspline(
                [(0, 24.6025584638), (2.519134824, 23.4265240958), (9.7782627058, 19.6653647007), (12.2709978535, 23.317860072), (10.9448553846, 34.8668339766), (-2.7964275343, 32.7737524115), (-9.5289819041, 31.0406010366), (-2.7353304502, 29.2714808232), (6.1723813435, 33.4756391479), (10.6113702887, 27.9919430879), (8.9205735189, 21.212079439), (2.9827149288, 26.6538900252), (-7.7880442819, 29.7245297625), (-19.89191705, 24.9193725486), (-28.4619809921, 15.2111158504), (-21.3997171439, 19.6010273455), (-16.5229048285, 23.2111674575), (-10.6099910825, 25.2503485248), (-3.2494447445, 25.9141333448), (-1.5142759622, 25.3094839357), (0, 24.6025584638)],
                knots=[0, 0, 0, 0, 0.0673142208, 0.1043759848, 0.1672026247, 0.2423225643, 0.2865701558, 0.3299813143, 0.3955493977, 0.4454105898, 0.4903324498, 0.5409509938, 0.6113249476, 0.6904612557, 0.7509678814, 0.7955081864, 0.8509660352, 0.9042044904, 0.9595367801, 1, 1, 1, 1], degree=3))
        make_face(mode=Mode.SUBTRACT)
        Circle(F0_R_2, mode=Mode.SUBTRACT)
    extrude(amount=F3_DEPTH)


solid = f1.part
